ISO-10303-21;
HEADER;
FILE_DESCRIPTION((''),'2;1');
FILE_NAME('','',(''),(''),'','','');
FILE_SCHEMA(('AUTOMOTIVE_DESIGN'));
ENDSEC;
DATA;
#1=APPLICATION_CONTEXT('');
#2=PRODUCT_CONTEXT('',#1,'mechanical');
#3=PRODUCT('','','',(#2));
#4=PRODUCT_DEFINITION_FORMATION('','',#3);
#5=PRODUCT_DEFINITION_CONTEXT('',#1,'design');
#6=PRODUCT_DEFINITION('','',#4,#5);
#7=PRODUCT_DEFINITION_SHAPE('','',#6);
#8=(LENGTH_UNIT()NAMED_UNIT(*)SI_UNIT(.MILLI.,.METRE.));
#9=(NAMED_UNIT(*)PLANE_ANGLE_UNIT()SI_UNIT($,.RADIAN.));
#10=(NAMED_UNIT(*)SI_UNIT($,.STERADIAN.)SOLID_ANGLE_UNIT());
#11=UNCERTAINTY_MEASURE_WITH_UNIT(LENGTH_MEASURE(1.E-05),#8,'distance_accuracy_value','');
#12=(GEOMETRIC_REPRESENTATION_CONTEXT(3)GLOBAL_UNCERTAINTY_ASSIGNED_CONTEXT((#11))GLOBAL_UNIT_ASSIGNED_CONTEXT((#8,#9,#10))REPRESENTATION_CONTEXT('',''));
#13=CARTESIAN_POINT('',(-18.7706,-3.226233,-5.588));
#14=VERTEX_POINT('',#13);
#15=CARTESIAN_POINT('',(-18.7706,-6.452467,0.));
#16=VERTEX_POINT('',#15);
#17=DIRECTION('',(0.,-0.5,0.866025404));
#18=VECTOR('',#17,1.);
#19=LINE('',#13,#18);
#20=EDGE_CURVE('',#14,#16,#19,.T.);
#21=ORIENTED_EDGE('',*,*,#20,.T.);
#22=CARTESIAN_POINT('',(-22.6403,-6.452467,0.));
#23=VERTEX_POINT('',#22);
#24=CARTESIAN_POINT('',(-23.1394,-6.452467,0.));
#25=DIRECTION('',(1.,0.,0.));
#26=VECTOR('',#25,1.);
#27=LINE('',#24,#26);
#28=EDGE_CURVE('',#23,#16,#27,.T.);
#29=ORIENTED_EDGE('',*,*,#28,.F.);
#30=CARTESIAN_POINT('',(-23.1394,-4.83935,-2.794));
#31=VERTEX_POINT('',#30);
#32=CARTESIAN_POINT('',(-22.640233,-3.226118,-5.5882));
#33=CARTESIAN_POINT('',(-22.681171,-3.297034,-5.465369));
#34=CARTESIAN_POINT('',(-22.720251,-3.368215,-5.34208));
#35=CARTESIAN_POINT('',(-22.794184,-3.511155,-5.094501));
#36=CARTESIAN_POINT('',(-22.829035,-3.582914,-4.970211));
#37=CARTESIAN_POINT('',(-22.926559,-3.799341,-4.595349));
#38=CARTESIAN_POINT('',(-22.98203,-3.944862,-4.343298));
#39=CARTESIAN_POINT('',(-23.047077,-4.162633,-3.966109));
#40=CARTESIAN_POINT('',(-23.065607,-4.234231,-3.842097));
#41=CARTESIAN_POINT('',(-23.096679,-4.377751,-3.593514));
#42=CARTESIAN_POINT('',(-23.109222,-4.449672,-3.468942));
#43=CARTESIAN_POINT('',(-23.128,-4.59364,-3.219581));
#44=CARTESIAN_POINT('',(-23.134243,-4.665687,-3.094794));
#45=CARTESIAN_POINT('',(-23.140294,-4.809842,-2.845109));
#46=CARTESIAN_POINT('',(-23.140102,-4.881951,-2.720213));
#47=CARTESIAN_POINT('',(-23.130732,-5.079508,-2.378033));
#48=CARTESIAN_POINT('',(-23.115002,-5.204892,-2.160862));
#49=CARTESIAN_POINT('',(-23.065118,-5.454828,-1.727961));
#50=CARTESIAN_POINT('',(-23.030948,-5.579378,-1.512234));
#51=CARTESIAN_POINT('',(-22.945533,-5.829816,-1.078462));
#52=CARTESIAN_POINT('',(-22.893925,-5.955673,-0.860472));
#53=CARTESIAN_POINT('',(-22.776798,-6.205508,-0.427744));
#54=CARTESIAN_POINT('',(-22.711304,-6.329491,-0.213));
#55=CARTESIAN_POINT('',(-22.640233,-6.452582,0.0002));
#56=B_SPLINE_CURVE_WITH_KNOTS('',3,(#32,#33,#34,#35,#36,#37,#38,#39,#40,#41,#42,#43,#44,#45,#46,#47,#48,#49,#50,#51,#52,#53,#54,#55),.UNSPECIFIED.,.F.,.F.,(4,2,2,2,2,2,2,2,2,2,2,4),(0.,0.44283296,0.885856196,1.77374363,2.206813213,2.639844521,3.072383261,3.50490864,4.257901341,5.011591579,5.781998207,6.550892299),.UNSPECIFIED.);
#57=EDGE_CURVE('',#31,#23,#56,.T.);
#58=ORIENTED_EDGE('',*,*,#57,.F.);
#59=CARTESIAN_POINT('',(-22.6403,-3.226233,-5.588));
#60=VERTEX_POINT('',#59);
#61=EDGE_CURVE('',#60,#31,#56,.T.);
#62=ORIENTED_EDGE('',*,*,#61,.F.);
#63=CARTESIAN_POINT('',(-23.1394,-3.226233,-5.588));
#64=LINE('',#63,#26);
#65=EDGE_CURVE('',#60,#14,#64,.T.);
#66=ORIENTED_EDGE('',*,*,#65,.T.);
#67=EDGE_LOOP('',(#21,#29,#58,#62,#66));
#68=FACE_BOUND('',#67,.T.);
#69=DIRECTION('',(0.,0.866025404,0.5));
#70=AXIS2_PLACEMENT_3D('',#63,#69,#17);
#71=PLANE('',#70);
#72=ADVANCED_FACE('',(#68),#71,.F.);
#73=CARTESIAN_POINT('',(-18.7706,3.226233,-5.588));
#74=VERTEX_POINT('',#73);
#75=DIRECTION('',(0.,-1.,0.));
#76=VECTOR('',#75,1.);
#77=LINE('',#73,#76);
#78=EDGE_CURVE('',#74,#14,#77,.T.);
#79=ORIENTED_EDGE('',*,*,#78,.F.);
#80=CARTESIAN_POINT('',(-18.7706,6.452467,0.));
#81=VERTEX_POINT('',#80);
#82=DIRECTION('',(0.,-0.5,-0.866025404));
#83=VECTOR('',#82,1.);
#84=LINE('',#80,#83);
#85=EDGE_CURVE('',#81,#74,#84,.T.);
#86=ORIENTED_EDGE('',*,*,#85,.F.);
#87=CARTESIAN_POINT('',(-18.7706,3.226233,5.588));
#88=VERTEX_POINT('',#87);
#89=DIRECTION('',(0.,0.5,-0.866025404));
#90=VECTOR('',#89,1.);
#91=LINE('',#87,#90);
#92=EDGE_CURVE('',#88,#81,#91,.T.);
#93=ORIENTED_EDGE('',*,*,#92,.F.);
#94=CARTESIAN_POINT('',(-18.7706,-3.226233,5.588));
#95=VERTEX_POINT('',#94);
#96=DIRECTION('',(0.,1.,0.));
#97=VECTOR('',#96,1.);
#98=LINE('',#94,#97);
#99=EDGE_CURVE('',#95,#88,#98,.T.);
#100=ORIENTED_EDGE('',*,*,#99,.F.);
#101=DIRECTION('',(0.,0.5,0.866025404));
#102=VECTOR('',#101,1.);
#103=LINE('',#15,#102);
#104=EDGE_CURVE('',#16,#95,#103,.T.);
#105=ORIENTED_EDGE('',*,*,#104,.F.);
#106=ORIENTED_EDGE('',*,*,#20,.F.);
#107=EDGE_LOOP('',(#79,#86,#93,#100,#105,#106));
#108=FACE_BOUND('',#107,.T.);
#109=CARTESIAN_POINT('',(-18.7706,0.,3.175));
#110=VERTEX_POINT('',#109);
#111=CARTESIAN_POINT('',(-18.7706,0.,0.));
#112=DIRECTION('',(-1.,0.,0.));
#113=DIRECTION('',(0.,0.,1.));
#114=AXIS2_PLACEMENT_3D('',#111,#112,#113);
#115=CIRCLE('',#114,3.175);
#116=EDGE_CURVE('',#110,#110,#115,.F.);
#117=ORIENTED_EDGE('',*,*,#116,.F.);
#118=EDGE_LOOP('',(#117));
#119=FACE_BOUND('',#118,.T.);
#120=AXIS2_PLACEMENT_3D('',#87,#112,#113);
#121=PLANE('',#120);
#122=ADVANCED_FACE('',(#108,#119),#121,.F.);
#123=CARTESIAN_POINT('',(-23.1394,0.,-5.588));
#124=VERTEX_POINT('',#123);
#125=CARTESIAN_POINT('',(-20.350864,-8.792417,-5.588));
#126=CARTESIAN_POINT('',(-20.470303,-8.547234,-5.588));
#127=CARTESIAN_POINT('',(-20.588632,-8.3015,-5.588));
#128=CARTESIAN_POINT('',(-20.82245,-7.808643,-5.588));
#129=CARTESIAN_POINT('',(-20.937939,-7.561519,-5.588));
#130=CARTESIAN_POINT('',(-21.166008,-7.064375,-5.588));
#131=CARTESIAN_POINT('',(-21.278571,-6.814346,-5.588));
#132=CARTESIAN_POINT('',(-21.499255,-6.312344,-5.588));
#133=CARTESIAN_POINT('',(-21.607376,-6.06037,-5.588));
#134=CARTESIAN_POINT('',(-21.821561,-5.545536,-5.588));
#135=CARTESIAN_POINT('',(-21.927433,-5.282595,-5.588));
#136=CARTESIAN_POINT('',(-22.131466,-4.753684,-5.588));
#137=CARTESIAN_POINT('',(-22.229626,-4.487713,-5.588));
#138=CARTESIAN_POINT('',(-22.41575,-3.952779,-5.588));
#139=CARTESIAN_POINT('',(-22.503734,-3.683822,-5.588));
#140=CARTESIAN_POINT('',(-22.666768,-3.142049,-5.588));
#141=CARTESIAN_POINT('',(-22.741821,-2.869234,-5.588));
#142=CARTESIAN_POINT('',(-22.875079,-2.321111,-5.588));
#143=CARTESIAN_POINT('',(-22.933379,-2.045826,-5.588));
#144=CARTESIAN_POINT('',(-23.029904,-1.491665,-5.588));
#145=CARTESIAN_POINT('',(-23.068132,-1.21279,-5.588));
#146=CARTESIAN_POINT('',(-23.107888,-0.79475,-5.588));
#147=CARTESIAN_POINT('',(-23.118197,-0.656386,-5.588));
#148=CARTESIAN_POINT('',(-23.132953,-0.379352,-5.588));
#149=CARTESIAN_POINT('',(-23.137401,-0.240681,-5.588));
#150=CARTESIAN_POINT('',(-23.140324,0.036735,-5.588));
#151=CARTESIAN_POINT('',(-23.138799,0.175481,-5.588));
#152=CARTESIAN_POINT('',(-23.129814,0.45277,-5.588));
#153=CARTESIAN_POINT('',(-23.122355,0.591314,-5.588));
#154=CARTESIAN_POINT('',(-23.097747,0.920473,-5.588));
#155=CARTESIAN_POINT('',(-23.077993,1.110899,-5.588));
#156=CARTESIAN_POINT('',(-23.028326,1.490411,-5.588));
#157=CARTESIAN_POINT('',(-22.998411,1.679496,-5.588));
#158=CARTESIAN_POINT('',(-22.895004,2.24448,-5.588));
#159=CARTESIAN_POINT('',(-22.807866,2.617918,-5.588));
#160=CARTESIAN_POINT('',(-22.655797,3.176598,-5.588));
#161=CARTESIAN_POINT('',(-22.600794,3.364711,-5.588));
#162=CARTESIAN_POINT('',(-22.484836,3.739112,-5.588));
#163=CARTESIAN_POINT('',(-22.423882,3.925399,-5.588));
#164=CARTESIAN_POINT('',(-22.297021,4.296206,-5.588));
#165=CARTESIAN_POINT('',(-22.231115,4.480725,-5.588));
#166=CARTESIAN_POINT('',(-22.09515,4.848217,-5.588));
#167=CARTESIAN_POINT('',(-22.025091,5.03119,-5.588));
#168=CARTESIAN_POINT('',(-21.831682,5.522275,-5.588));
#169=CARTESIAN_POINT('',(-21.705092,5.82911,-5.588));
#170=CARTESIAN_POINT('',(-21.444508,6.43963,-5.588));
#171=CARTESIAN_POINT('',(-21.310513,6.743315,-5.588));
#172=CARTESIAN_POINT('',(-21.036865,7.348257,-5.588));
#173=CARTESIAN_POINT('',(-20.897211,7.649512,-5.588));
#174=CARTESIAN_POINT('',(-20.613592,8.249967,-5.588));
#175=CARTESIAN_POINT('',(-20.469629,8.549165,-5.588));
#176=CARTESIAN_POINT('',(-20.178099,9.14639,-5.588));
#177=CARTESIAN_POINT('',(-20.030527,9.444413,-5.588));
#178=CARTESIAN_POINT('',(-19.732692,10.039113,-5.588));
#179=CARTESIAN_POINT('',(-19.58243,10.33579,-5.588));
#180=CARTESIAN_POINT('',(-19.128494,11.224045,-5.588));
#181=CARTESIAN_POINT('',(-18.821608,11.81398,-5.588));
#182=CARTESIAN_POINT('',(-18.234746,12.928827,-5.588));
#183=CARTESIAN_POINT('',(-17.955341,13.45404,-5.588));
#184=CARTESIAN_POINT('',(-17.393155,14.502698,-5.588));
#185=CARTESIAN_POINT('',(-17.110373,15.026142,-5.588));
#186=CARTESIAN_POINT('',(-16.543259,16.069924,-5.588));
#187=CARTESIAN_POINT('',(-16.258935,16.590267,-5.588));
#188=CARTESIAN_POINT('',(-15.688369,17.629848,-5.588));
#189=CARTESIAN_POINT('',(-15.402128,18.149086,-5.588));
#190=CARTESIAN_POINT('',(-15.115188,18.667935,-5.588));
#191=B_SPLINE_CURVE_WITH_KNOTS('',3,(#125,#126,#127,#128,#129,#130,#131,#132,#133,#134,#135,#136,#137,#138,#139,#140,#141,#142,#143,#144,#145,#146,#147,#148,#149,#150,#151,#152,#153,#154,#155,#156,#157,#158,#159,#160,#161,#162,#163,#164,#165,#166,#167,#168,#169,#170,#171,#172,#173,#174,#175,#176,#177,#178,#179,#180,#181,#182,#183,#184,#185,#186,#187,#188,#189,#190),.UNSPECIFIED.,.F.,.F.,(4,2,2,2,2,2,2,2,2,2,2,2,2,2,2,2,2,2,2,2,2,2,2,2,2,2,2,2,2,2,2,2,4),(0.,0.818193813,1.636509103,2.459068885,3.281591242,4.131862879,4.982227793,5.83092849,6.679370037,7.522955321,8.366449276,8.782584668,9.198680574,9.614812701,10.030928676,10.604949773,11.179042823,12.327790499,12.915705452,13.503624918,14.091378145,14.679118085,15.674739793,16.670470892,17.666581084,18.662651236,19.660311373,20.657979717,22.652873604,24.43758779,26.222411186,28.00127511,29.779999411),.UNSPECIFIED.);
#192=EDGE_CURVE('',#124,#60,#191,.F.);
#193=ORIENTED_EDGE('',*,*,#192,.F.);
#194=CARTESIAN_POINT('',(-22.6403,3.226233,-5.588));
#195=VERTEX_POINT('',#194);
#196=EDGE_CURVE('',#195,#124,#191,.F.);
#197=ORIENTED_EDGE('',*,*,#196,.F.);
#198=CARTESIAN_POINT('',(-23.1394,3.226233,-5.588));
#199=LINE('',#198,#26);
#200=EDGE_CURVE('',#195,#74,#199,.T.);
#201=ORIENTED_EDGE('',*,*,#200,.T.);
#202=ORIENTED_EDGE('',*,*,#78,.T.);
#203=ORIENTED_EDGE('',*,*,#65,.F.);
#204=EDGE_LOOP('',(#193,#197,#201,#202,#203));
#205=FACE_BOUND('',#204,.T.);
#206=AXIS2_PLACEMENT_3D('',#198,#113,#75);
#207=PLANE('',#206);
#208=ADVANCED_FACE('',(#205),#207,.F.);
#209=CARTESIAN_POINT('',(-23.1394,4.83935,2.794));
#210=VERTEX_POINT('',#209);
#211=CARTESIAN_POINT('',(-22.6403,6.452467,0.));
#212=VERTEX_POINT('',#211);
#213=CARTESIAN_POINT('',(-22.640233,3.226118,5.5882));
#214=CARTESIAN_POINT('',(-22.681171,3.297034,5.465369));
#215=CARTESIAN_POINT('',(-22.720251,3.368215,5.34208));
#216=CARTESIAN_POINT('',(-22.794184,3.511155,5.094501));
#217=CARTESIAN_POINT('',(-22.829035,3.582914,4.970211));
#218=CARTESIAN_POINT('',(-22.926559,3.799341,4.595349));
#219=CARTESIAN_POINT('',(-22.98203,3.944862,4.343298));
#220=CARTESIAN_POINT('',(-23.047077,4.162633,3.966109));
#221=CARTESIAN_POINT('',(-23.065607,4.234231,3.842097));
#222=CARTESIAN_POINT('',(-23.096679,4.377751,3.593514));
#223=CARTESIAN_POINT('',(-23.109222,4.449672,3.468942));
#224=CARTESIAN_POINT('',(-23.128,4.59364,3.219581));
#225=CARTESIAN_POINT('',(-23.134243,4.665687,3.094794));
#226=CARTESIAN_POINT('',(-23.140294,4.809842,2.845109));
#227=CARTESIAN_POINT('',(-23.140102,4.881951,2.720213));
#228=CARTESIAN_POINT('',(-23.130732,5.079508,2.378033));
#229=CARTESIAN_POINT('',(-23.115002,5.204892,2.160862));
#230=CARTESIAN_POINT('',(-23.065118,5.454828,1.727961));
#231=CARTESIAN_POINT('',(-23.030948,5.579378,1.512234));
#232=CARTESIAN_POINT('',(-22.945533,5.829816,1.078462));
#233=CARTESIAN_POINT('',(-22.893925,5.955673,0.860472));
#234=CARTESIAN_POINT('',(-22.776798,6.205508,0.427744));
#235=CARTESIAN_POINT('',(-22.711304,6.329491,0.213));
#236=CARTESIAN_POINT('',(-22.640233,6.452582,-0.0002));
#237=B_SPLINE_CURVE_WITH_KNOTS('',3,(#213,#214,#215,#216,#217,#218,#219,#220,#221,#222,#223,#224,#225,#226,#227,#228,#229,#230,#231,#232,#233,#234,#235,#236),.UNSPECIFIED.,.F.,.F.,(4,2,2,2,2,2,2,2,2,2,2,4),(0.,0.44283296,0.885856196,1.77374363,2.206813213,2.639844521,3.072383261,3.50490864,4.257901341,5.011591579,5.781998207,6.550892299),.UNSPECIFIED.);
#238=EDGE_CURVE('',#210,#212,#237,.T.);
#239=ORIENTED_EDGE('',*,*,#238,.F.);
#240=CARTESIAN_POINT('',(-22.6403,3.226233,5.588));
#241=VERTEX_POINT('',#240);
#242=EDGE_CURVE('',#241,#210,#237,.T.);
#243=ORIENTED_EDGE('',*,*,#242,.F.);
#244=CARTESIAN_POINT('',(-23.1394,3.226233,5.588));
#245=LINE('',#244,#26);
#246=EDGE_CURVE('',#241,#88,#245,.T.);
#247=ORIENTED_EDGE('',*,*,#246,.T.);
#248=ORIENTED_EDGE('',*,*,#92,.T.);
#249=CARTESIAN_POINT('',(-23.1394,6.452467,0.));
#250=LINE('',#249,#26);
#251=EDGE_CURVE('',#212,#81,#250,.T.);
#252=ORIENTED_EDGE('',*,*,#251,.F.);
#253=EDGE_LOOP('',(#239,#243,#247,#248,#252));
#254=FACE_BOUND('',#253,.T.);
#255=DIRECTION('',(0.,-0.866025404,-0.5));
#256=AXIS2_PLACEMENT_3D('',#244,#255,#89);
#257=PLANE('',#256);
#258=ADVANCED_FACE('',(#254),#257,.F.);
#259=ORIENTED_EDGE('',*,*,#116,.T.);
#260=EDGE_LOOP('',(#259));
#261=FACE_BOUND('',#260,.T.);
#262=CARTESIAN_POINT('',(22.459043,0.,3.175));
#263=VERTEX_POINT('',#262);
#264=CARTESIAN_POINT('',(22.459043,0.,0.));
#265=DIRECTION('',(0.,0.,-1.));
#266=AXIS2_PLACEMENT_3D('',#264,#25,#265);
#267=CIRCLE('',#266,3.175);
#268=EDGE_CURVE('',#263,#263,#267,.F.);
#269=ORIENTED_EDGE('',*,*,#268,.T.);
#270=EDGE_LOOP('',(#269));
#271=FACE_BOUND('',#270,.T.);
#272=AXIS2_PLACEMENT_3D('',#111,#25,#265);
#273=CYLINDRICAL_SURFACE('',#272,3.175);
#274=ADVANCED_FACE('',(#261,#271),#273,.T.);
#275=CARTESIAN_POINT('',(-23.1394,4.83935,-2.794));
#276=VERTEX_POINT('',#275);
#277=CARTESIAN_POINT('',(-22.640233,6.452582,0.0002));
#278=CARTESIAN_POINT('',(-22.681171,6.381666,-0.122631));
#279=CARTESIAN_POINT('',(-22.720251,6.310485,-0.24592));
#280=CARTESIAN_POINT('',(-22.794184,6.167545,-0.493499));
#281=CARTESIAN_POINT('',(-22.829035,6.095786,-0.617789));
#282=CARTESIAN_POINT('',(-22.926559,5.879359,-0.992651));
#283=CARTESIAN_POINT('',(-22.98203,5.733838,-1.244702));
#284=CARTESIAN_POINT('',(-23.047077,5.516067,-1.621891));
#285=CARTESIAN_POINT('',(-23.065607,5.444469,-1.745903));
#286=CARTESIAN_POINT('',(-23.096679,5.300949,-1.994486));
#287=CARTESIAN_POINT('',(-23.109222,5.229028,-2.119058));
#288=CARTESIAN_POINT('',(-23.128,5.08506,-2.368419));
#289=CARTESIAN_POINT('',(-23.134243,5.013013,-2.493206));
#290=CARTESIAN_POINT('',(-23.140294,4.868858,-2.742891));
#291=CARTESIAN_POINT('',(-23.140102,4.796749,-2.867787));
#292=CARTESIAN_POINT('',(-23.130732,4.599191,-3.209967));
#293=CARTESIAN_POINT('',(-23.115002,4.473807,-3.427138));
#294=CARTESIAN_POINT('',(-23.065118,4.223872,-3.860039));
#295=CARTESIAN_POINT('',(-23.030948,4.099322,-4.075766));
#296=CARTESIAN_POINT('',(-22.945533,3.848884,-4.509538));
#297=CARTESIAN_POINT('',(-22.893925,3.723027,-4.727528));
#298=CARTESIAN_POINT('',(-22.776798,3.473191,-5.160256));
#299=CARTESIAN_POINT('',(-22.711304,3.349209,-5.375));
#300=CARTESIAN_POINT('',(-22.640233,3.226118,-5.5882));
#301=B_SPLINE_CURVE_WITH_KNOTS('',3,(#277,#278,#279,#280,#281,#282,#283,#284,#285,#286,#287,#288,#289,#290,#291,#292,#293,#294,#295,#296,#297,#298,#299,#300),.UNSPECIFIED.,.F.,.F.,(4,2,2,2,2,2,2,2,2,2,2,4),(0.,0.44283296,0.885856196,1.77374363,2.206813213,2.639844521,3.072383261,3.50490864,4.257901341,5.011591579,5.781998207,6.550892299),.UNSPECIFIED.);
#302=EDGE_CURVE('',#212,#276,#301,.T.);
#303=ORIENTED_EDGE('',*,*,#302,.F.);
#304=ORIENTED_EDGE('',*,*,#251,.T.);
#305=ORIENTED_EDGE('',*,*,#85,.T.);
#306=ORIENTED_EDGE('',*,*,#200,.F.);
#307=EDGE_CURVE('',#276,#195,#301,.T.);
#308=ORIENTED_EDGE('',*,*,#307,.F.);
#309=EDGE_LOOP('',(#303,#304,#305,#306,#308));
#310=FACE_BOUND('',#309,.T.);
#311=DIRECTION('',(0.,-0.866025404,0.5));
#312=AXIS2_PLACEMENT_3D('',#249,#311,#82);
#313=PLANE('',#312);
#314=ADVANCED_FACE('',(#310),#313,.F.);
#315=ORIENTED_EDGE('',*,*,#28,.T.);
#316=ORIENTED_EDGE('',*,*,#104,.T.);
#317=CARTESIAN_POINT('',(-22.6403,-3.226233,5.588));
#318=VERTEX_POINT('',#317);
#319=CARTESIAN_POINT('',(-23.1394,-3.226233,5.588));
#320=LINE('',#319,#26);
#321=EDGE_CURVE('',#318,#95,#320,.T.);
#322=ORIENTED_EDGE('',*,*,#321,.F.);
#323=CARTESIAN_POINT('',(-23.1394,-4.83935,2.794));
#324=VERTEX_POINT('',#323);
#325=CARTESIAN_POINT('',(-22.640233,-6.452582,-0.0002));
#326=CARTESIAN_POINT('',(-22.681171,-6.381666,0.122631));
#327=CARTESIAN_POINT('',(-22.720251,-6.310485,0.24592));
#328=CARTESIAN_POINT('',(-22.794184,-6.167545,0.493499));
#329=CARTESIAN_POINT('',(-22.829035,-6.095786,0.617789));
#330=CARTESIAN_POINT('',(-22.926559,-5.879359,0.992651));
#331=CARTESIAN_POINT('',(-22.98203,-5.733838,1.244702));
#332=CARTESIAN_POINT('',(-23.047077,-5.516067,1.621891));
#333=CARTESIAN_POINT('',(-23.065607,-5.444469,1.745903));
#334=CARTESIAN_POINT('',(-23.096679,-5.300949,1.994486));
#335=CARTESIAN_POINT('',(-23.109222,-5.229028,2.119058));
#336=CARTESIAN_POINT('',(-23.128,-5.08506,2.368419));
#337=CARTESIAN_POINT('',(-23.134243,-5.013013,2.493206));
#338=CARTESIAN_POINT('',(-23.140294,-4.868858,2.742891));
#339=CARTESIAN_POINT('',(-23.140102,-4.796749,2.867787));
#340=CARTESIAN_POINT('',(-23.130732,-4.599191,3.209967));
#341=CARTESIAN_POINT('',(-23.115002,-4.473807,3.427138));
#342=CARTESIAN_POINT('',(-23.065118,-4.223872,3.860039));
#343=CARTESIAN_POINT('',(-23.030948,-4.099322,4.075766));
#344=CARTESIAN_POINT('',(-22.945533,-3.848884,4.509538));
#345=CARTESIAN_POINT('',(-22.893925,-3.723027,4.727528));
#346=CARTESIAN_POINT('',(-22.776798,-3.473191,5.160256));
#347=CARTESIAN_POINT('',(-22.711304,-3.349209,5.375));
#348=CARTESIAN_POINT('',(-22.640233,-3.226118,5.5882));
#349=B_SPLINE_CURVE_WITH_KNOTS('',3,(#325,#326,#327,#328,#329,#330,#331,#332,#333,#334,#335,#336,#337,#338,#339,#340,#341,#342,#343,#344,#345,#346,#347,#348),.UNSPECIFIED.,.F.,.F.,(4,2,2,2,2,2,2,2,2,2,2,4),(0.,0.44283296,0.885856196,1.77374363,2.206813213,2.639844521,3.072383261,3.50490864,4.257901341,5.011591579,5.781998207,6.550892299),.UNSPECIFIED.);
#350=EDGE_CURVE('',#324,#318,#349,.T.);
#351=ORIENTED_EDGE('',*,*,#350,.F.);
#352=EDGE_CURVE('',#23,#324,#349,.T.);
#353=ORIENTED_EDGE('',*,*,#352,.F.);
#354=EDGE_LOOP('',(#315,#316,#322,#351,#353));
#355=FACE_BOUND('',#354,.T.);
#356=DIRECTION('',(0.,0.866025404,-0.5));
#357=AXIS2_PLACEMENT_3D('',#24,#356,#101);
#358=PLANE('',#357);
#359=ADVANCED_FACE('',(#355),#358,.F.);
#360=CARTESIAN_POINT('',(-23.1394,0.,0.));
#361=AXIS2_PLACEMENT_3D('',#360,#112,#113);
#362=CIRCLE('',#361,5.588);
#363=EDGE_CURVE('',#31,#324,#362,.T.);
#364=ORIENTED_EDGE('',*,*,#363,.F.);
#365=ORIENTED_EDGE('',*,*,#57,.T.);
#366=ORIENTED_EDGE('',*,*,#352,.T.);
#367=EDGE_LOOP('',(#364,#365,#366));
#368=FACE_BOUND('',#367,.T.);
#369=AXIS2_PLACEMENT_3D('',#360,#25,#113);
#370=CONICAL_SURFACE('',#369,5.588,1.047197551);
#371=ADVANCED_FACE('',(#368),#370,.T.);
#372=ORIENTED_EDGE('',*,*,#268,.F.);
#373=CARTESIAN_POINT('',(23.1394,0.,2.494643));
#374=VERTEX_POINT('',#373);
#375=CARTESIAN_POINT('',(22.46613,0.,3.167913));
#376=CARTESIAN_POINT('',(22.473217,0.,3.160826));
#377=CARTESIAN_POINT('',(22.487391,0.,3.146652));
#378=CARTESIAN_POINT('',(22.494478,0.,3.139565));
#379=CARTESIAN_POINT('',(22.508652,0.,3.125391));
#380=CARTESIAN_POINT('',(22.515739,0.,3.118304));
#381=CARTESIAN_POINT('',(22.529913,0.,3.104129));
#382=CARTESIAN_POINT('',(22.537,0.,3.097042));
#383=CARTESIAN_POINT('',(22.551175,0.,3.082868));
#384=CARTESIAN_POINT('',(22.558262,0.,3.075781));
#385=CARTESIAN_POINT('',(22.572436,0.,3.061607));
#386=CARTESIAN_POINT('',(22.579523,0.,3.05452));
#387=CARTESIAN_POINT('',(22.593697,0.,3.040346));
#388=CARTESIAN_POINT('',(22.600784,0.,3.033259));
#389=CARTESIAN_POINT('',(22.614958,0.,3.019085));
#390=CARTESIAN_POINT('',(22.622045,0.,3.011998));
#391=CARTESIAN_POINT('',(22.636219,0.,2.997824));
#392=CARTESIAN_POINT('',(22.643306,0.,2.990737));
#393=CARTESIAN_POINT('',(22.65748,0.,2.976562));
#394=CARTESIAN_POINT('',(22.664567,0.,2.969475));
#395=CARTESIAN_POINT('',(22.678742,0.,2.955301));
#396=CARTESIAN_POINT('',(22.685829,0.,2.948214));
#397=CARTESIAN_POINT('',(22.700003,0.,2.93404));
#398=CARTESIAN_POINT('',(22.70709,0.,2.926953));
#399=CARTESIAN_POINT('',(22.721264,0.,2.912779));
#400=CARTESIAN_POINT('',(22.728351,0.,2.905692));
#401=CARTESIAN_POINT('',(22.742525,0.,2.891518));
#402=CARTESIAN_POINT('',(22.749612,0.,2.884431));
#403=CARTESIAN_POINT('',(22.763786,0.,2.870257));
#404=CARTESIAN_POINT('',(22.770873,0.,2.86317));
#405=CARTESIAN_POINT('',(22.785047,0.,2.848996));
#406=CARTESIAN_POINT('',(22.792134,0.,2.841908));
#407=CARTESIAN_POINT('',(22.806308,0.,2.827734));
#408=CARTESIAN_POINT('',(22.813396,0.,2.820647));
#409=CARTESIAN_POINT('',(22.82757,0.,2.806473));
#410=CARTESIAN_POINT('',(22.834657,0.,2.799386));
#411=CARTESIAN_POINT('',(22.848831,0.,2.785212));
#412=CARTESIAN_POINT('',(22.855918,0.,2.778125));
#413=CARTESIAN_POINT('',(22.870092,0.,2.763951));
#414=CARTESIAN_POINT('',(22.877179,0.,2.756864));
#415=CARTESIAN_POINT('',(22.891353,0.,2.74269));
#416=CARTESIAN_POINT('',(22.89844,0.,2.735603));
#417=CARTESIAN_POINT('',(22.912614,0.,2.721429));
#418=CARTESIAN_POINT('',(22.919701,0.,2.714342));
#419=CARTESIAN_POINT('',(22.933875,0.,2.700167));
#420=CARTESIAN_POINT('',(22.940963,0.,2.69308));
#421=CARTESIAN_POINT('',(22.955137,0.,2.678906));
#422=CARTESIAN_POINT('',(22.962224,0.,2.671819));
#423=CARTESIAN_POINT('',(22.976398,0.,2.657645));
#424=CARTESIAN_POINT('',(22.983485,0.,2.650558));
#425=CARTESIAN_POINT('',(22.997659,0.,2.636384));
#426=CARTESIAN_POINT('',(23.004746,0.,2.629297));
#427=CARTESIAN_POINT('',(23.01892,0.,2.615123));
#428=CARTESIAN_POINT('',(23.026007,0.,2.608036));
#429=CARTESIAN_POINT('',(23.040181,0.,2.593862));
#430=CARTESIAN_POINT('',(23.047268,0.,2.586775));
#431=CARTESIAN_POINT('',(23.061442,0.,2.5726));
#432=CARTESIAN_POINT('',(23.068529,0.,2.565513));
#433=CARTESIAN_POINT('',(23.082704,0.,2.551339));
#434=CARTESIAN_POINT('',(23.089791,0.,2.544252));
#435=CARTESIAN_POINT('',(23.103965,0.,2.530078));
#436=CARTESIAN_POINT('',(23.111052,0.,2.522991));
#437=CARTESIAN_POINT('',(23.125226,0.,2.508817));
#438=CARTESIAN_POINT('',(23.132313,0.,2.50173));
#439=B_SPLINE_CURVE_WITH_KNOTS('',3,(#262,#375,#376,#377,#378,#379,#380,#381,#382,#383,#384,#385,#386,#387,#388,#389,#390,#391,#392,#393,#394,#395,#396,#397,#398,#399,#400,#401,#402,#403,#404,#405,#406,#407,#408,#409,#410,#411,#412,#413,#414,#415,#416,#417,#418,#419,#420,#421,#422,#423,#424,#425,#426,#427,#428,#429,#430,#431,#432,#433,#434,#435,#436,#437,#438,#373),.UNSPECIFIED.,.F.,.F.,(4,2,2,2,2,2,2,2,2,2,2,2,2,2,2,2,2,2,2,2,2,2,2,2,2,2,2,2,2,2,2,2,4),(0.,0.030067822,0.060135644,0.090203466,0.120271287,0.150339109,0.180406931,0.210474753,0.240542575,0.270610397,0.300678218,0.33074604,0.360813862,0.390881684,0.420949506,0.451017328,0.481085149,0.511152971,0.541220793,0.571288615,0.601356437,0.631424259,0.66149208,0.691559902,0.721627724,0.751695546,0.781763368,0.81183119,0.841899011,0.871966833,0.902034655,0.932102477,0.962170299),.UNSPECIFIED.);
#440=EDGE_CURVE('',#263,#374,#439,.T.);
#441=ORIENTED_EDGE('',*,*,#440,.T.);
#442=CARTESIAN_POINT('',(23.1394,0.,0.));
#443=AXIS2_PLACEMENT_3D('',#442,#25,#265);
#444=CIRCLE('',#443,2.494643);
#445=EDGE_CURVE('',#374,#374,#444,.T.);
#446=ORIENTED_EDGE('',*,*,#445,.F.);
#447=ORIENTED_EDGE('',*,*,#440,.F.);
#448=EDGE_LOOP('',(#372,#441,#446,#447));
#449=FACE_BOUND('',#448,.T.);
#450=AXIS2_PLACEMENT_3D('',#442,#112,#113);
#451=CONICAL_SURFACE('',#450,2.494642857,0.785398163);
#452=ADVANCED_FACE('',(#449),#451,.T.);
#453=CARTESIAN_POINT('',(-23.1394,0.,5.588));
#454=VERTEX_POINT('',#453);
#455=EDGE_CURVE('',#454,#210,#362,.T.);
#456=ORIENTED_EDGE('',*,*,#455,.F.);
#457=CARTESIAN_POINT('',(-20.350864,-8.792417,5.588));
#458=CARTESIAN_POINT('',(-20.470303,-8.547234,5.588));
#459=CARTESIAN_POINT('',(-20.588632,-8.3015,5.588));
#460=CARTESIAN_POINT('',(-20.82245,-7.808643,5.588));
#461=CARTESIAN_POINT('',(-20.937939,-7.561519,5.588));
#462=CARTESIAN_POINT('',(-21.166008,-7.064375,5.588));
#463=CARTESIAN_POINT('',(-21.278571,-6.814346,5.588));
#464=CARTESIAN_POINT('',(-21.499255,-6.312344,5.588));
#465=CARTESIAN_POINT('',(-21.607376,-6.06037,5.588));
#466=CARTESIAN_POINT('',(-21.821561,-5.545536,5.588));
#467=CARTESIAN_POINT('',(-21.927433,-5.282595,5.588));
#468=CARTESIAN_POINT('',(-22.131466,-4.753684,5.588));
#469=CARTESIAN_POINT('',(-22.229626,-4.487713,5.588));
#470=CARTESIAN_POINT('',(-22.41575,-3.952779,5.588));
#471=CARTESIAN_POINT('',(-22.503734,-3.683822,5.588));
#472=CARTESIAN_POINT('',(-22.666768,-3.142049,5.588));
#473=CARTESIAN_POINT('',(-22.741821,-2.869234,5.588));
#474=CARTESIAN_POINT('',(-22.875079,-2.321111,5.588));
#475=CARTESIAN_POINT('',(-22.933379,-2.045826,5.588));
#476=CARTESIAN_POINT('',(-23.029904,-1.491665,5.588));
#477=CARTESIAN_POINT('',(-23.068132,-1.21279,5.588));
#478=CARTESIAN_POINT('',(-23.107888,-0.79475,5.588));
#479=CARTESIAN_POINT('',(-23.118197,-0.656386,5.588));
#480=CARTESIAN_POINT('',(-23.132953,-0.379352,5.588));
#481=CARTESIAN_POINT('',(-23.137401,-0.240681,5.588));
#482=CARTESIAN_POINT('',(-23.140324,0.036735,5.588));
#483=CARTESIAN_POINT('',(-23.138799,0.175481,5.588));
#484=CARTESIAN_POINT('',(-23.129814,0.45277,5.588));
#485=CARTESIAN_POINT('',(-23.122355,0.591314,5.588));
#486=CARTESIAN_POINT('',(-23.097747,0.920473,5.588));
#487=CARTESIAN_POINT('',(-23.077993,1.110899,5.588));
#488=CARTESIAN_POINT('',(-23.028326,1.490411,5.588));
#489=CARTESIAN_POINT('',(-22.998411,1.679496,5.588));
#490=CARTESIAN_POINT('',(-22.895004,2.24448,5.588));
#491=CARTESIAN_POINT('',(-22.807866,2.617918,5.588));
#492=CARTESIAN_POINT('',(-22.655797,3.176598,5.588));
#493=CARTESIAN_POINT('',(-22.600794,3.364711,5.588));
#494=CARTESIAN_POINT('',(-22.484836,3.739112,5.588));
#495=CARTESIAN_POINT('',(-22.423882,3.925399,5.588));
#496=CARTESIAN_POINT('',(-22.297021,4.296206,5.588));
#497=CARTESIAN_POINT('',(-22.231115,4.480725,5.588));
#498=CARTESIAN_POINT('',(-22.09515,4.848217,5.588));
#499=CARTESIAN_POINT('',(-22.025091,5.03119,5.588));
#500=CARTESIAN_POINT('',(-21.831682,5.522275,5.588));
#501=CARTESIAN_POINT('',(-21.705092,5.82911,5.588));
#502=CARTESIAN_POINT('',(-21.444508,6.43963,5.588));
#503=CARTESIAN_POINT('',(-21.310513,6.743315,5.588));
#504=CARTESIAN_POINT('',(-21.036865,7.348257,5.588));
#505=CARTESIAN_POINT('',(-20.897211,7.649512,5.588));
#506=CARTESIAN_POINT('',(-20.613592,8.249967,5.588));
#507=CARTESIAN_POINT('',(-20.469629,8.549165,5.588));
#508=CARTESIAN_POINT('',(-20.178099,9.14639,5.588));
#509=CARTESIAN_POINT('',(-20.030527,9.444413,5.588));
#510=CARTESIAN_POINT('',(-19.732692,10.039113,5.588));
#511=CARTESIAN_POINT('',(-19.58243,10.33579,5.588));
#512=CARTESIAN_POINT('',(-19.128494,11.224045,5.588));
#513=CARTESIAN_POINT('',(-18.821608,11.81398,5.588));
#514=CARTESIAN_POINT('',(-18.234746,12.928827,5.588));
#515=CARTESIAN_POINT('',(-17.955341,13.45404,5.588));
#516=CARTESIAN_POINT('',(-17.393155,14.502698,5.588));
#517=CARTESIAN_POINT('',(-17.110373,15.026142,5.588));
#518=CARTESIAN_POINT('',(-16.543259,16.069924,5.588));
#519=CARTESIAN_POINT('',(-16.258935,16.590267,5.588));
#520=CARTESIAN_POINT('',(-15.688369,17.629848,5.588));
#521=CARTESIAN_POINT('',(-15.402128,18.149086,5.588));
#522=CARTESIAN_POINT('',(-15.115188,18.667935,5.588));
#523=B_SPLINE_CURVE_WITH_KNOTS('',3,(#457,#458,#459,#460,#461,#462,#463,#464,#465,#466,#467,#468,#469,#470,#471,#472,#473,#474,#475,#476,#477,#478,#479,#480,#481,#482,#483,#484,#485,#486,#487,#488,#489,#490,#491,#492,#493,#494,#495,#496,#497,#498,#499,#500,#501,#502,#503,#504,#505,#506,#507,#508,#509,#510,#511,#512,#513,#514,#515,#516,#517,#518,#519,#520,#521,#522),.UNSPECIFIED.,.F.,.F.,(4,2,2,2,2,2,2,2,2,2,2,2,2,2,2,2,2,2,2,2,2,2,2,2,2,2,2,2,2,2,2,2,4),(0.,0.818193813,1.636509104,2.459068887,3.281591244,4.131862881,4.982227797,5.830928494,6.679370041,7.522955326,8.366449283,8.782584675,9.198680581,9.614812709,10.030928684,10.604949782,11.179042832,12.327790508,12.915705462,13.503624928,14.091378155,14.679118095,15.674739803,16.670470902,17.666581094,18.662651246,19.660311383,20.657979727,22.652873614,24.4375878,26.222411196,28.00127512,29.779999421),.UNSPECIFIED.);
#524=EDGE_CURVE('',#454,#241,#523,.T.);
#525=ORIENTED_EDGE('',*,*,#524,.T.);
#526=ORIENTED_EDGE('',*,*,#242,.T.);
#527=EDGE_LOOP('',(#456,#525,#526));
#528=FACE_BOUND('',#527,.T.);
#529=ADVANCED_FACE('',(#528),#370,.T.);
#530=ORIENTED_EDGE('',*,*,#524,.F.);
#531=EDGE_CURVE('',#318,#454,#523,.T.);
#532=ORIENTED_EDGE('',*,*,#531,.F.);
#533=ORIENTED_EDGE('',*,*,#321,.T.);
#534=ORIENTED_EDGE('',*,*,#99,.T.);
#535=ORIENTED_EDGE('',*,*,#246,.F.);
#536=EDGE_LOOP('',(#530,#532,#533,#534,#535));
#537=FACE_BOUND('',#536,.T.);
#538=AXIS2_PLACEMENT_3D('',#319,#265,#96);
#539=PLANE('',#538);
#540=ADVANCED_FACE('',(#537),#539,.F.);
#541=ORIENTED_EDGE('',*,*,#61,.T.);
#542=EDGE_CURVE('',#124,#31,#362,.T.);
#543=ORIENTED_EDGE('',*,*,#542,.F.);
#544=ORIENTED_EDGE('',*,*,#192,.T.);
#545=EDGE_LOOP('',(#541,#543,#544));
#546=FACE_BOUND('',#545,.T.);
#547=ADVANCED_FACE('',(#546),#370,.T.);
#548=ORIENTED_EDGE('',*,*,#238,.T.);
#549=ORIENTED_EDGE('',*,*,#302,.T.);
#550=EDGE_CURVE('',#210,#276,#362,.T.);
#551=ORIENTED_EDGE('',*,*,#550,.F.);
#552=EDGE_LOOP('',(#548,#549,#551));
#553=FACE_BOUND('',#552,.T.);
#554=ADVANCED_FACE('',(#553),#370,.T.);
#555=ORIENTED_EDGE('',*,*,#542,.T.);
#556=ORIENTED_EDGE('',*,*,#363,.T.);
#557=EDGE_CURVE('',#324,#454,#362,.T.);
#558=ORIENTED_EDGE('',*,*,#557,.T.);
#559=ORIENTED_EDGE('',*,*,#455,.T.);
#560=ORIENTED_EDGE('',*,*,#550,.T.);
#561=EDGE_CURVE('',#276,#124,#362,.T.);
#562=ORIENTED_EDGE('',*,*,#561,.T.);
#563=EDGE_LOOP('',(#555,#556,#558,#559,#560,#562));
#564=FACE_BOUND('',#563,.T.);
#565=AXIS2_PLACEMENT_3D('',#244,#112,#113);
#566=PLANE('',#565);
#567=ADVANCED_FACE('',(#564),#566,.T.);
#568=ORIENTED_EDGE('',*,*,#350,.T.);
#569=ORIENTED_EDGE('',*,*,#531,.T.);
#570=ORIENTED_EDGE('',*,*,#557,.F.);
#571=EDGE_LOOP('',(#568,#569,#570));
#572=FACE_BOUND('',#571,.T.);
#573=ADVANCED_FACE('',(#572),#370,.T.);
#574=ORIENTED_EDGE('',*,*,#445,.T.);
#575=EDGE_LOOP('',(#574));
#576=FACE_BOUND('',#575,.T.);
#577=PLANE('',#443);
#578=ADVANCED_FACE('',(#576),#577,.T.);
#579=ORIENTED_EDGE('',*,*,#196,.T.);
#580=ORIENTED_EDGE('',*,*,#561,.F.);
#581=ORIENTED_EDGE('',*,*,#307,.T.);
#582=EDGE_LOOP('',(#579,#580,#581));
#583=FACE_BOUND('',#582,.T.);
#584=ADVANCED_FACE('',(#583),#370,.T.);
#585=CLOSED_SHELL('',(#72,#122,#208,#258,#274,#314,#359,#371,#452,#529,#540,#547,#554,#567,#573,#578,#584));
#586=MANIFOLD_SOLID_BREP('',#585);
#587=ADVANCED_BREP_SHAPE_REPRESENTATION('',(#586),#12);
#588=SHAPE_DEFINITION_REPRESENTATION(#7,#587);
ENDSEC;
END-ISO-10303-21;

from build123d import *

# Parameters (mm, degrees)
SKETCH5_R           = 3.175
BOSS_EXTRUDE3_DEPTH = 41.91
CHAMFER1_SIZE       = 0.680357143
BOSS_EXTRUDE4_DEPTH = 4.3688
SKETCH8_OUTSIDE_W   = 189.524
SKETCH8_OUTSIDE_H   = 191.252
SKETCH8_OUTSIDE_R   = 5.588
CUT_EXTRUDE3_DEPTH  = 48.059402873
CUT_EXTRUDE3_DRAFT  = -60


with BuildPart() as part:
    # Sketch5 → Boss-Extrude3 (new body)
    with BuildSketch(Plane(origin=(23.1394, 0, 0), x_dir=(0, 0, -1), z_dir=(1, 0, 0))):
        Circle(SKETCH5_R)
    extrude(amount=-BOSS_EXTRUDE3_DEPTH)

    # Chamfer1
    chamfer1_edges = [part.edges().sort_by_distance(p)[0] for p in [
        (23.1394, 0, 3.175),
    ]]
    chamfer(chamfer1_edges, length=CHAMFER1_SIZE)

    # Sketch6 → Boss-Extrude4 (add)
    with BuildSketch(Plane.ZY.offset(18.7706)):
        Polygon((5.588, 3.226233304), (0, 6.452466608), (-5.588, 3.226233304), (-5.588, -3.226233304), (0, -6.452466608), (5.588, -3.226233304), align=None)
    extrude(amount=BOSS_EXTRUDE4_DEPTH)


with BuildPart() as cut_extrude3_tool:
    # Sketch8 outside → Cut-Extrude3 (with draft: the straight prism first)
    with BuildSketch(Plane.ZY.offset(23.1394)):
        Rectangle(SKETCH8_OUTSIDE_W, SKETCH8_OUTSIDE_H)
        Circle(SKETCH8_OUTSIDE_R, mode=Mode.SUBTRACT)
    extrude(amount=-CUT_EXTRUDE3_DEPTH)
    # Cut-Extrude3: the draft: its side faces are tilted about the plane it starts from
    cut_extrude3_sides = [cut_extrude3_tool.faces().sort_by_distance(p)[0] for p in [
        (0.890301437, -95.626, 0),
        (0.890301437, 0, 94.762),
        (0.890301437, 95.626, 0),
        (0.890301437, 0, -94.762),
        (0.890301437, 0, -5.588),
    ]]
    draft(cut_extrude3_sides, Plane.ZY.offset(23.1394), CUT_EXTRUDE3_DRAFT)


with BuildPart() as part_1:
    add(part.part)

    # Cut-Extrude3: cut by cut_extrude3_tool
    add(cut_extrude3_tool.part, mode=Mode.SUBTRACT)


solid = part_1.part
